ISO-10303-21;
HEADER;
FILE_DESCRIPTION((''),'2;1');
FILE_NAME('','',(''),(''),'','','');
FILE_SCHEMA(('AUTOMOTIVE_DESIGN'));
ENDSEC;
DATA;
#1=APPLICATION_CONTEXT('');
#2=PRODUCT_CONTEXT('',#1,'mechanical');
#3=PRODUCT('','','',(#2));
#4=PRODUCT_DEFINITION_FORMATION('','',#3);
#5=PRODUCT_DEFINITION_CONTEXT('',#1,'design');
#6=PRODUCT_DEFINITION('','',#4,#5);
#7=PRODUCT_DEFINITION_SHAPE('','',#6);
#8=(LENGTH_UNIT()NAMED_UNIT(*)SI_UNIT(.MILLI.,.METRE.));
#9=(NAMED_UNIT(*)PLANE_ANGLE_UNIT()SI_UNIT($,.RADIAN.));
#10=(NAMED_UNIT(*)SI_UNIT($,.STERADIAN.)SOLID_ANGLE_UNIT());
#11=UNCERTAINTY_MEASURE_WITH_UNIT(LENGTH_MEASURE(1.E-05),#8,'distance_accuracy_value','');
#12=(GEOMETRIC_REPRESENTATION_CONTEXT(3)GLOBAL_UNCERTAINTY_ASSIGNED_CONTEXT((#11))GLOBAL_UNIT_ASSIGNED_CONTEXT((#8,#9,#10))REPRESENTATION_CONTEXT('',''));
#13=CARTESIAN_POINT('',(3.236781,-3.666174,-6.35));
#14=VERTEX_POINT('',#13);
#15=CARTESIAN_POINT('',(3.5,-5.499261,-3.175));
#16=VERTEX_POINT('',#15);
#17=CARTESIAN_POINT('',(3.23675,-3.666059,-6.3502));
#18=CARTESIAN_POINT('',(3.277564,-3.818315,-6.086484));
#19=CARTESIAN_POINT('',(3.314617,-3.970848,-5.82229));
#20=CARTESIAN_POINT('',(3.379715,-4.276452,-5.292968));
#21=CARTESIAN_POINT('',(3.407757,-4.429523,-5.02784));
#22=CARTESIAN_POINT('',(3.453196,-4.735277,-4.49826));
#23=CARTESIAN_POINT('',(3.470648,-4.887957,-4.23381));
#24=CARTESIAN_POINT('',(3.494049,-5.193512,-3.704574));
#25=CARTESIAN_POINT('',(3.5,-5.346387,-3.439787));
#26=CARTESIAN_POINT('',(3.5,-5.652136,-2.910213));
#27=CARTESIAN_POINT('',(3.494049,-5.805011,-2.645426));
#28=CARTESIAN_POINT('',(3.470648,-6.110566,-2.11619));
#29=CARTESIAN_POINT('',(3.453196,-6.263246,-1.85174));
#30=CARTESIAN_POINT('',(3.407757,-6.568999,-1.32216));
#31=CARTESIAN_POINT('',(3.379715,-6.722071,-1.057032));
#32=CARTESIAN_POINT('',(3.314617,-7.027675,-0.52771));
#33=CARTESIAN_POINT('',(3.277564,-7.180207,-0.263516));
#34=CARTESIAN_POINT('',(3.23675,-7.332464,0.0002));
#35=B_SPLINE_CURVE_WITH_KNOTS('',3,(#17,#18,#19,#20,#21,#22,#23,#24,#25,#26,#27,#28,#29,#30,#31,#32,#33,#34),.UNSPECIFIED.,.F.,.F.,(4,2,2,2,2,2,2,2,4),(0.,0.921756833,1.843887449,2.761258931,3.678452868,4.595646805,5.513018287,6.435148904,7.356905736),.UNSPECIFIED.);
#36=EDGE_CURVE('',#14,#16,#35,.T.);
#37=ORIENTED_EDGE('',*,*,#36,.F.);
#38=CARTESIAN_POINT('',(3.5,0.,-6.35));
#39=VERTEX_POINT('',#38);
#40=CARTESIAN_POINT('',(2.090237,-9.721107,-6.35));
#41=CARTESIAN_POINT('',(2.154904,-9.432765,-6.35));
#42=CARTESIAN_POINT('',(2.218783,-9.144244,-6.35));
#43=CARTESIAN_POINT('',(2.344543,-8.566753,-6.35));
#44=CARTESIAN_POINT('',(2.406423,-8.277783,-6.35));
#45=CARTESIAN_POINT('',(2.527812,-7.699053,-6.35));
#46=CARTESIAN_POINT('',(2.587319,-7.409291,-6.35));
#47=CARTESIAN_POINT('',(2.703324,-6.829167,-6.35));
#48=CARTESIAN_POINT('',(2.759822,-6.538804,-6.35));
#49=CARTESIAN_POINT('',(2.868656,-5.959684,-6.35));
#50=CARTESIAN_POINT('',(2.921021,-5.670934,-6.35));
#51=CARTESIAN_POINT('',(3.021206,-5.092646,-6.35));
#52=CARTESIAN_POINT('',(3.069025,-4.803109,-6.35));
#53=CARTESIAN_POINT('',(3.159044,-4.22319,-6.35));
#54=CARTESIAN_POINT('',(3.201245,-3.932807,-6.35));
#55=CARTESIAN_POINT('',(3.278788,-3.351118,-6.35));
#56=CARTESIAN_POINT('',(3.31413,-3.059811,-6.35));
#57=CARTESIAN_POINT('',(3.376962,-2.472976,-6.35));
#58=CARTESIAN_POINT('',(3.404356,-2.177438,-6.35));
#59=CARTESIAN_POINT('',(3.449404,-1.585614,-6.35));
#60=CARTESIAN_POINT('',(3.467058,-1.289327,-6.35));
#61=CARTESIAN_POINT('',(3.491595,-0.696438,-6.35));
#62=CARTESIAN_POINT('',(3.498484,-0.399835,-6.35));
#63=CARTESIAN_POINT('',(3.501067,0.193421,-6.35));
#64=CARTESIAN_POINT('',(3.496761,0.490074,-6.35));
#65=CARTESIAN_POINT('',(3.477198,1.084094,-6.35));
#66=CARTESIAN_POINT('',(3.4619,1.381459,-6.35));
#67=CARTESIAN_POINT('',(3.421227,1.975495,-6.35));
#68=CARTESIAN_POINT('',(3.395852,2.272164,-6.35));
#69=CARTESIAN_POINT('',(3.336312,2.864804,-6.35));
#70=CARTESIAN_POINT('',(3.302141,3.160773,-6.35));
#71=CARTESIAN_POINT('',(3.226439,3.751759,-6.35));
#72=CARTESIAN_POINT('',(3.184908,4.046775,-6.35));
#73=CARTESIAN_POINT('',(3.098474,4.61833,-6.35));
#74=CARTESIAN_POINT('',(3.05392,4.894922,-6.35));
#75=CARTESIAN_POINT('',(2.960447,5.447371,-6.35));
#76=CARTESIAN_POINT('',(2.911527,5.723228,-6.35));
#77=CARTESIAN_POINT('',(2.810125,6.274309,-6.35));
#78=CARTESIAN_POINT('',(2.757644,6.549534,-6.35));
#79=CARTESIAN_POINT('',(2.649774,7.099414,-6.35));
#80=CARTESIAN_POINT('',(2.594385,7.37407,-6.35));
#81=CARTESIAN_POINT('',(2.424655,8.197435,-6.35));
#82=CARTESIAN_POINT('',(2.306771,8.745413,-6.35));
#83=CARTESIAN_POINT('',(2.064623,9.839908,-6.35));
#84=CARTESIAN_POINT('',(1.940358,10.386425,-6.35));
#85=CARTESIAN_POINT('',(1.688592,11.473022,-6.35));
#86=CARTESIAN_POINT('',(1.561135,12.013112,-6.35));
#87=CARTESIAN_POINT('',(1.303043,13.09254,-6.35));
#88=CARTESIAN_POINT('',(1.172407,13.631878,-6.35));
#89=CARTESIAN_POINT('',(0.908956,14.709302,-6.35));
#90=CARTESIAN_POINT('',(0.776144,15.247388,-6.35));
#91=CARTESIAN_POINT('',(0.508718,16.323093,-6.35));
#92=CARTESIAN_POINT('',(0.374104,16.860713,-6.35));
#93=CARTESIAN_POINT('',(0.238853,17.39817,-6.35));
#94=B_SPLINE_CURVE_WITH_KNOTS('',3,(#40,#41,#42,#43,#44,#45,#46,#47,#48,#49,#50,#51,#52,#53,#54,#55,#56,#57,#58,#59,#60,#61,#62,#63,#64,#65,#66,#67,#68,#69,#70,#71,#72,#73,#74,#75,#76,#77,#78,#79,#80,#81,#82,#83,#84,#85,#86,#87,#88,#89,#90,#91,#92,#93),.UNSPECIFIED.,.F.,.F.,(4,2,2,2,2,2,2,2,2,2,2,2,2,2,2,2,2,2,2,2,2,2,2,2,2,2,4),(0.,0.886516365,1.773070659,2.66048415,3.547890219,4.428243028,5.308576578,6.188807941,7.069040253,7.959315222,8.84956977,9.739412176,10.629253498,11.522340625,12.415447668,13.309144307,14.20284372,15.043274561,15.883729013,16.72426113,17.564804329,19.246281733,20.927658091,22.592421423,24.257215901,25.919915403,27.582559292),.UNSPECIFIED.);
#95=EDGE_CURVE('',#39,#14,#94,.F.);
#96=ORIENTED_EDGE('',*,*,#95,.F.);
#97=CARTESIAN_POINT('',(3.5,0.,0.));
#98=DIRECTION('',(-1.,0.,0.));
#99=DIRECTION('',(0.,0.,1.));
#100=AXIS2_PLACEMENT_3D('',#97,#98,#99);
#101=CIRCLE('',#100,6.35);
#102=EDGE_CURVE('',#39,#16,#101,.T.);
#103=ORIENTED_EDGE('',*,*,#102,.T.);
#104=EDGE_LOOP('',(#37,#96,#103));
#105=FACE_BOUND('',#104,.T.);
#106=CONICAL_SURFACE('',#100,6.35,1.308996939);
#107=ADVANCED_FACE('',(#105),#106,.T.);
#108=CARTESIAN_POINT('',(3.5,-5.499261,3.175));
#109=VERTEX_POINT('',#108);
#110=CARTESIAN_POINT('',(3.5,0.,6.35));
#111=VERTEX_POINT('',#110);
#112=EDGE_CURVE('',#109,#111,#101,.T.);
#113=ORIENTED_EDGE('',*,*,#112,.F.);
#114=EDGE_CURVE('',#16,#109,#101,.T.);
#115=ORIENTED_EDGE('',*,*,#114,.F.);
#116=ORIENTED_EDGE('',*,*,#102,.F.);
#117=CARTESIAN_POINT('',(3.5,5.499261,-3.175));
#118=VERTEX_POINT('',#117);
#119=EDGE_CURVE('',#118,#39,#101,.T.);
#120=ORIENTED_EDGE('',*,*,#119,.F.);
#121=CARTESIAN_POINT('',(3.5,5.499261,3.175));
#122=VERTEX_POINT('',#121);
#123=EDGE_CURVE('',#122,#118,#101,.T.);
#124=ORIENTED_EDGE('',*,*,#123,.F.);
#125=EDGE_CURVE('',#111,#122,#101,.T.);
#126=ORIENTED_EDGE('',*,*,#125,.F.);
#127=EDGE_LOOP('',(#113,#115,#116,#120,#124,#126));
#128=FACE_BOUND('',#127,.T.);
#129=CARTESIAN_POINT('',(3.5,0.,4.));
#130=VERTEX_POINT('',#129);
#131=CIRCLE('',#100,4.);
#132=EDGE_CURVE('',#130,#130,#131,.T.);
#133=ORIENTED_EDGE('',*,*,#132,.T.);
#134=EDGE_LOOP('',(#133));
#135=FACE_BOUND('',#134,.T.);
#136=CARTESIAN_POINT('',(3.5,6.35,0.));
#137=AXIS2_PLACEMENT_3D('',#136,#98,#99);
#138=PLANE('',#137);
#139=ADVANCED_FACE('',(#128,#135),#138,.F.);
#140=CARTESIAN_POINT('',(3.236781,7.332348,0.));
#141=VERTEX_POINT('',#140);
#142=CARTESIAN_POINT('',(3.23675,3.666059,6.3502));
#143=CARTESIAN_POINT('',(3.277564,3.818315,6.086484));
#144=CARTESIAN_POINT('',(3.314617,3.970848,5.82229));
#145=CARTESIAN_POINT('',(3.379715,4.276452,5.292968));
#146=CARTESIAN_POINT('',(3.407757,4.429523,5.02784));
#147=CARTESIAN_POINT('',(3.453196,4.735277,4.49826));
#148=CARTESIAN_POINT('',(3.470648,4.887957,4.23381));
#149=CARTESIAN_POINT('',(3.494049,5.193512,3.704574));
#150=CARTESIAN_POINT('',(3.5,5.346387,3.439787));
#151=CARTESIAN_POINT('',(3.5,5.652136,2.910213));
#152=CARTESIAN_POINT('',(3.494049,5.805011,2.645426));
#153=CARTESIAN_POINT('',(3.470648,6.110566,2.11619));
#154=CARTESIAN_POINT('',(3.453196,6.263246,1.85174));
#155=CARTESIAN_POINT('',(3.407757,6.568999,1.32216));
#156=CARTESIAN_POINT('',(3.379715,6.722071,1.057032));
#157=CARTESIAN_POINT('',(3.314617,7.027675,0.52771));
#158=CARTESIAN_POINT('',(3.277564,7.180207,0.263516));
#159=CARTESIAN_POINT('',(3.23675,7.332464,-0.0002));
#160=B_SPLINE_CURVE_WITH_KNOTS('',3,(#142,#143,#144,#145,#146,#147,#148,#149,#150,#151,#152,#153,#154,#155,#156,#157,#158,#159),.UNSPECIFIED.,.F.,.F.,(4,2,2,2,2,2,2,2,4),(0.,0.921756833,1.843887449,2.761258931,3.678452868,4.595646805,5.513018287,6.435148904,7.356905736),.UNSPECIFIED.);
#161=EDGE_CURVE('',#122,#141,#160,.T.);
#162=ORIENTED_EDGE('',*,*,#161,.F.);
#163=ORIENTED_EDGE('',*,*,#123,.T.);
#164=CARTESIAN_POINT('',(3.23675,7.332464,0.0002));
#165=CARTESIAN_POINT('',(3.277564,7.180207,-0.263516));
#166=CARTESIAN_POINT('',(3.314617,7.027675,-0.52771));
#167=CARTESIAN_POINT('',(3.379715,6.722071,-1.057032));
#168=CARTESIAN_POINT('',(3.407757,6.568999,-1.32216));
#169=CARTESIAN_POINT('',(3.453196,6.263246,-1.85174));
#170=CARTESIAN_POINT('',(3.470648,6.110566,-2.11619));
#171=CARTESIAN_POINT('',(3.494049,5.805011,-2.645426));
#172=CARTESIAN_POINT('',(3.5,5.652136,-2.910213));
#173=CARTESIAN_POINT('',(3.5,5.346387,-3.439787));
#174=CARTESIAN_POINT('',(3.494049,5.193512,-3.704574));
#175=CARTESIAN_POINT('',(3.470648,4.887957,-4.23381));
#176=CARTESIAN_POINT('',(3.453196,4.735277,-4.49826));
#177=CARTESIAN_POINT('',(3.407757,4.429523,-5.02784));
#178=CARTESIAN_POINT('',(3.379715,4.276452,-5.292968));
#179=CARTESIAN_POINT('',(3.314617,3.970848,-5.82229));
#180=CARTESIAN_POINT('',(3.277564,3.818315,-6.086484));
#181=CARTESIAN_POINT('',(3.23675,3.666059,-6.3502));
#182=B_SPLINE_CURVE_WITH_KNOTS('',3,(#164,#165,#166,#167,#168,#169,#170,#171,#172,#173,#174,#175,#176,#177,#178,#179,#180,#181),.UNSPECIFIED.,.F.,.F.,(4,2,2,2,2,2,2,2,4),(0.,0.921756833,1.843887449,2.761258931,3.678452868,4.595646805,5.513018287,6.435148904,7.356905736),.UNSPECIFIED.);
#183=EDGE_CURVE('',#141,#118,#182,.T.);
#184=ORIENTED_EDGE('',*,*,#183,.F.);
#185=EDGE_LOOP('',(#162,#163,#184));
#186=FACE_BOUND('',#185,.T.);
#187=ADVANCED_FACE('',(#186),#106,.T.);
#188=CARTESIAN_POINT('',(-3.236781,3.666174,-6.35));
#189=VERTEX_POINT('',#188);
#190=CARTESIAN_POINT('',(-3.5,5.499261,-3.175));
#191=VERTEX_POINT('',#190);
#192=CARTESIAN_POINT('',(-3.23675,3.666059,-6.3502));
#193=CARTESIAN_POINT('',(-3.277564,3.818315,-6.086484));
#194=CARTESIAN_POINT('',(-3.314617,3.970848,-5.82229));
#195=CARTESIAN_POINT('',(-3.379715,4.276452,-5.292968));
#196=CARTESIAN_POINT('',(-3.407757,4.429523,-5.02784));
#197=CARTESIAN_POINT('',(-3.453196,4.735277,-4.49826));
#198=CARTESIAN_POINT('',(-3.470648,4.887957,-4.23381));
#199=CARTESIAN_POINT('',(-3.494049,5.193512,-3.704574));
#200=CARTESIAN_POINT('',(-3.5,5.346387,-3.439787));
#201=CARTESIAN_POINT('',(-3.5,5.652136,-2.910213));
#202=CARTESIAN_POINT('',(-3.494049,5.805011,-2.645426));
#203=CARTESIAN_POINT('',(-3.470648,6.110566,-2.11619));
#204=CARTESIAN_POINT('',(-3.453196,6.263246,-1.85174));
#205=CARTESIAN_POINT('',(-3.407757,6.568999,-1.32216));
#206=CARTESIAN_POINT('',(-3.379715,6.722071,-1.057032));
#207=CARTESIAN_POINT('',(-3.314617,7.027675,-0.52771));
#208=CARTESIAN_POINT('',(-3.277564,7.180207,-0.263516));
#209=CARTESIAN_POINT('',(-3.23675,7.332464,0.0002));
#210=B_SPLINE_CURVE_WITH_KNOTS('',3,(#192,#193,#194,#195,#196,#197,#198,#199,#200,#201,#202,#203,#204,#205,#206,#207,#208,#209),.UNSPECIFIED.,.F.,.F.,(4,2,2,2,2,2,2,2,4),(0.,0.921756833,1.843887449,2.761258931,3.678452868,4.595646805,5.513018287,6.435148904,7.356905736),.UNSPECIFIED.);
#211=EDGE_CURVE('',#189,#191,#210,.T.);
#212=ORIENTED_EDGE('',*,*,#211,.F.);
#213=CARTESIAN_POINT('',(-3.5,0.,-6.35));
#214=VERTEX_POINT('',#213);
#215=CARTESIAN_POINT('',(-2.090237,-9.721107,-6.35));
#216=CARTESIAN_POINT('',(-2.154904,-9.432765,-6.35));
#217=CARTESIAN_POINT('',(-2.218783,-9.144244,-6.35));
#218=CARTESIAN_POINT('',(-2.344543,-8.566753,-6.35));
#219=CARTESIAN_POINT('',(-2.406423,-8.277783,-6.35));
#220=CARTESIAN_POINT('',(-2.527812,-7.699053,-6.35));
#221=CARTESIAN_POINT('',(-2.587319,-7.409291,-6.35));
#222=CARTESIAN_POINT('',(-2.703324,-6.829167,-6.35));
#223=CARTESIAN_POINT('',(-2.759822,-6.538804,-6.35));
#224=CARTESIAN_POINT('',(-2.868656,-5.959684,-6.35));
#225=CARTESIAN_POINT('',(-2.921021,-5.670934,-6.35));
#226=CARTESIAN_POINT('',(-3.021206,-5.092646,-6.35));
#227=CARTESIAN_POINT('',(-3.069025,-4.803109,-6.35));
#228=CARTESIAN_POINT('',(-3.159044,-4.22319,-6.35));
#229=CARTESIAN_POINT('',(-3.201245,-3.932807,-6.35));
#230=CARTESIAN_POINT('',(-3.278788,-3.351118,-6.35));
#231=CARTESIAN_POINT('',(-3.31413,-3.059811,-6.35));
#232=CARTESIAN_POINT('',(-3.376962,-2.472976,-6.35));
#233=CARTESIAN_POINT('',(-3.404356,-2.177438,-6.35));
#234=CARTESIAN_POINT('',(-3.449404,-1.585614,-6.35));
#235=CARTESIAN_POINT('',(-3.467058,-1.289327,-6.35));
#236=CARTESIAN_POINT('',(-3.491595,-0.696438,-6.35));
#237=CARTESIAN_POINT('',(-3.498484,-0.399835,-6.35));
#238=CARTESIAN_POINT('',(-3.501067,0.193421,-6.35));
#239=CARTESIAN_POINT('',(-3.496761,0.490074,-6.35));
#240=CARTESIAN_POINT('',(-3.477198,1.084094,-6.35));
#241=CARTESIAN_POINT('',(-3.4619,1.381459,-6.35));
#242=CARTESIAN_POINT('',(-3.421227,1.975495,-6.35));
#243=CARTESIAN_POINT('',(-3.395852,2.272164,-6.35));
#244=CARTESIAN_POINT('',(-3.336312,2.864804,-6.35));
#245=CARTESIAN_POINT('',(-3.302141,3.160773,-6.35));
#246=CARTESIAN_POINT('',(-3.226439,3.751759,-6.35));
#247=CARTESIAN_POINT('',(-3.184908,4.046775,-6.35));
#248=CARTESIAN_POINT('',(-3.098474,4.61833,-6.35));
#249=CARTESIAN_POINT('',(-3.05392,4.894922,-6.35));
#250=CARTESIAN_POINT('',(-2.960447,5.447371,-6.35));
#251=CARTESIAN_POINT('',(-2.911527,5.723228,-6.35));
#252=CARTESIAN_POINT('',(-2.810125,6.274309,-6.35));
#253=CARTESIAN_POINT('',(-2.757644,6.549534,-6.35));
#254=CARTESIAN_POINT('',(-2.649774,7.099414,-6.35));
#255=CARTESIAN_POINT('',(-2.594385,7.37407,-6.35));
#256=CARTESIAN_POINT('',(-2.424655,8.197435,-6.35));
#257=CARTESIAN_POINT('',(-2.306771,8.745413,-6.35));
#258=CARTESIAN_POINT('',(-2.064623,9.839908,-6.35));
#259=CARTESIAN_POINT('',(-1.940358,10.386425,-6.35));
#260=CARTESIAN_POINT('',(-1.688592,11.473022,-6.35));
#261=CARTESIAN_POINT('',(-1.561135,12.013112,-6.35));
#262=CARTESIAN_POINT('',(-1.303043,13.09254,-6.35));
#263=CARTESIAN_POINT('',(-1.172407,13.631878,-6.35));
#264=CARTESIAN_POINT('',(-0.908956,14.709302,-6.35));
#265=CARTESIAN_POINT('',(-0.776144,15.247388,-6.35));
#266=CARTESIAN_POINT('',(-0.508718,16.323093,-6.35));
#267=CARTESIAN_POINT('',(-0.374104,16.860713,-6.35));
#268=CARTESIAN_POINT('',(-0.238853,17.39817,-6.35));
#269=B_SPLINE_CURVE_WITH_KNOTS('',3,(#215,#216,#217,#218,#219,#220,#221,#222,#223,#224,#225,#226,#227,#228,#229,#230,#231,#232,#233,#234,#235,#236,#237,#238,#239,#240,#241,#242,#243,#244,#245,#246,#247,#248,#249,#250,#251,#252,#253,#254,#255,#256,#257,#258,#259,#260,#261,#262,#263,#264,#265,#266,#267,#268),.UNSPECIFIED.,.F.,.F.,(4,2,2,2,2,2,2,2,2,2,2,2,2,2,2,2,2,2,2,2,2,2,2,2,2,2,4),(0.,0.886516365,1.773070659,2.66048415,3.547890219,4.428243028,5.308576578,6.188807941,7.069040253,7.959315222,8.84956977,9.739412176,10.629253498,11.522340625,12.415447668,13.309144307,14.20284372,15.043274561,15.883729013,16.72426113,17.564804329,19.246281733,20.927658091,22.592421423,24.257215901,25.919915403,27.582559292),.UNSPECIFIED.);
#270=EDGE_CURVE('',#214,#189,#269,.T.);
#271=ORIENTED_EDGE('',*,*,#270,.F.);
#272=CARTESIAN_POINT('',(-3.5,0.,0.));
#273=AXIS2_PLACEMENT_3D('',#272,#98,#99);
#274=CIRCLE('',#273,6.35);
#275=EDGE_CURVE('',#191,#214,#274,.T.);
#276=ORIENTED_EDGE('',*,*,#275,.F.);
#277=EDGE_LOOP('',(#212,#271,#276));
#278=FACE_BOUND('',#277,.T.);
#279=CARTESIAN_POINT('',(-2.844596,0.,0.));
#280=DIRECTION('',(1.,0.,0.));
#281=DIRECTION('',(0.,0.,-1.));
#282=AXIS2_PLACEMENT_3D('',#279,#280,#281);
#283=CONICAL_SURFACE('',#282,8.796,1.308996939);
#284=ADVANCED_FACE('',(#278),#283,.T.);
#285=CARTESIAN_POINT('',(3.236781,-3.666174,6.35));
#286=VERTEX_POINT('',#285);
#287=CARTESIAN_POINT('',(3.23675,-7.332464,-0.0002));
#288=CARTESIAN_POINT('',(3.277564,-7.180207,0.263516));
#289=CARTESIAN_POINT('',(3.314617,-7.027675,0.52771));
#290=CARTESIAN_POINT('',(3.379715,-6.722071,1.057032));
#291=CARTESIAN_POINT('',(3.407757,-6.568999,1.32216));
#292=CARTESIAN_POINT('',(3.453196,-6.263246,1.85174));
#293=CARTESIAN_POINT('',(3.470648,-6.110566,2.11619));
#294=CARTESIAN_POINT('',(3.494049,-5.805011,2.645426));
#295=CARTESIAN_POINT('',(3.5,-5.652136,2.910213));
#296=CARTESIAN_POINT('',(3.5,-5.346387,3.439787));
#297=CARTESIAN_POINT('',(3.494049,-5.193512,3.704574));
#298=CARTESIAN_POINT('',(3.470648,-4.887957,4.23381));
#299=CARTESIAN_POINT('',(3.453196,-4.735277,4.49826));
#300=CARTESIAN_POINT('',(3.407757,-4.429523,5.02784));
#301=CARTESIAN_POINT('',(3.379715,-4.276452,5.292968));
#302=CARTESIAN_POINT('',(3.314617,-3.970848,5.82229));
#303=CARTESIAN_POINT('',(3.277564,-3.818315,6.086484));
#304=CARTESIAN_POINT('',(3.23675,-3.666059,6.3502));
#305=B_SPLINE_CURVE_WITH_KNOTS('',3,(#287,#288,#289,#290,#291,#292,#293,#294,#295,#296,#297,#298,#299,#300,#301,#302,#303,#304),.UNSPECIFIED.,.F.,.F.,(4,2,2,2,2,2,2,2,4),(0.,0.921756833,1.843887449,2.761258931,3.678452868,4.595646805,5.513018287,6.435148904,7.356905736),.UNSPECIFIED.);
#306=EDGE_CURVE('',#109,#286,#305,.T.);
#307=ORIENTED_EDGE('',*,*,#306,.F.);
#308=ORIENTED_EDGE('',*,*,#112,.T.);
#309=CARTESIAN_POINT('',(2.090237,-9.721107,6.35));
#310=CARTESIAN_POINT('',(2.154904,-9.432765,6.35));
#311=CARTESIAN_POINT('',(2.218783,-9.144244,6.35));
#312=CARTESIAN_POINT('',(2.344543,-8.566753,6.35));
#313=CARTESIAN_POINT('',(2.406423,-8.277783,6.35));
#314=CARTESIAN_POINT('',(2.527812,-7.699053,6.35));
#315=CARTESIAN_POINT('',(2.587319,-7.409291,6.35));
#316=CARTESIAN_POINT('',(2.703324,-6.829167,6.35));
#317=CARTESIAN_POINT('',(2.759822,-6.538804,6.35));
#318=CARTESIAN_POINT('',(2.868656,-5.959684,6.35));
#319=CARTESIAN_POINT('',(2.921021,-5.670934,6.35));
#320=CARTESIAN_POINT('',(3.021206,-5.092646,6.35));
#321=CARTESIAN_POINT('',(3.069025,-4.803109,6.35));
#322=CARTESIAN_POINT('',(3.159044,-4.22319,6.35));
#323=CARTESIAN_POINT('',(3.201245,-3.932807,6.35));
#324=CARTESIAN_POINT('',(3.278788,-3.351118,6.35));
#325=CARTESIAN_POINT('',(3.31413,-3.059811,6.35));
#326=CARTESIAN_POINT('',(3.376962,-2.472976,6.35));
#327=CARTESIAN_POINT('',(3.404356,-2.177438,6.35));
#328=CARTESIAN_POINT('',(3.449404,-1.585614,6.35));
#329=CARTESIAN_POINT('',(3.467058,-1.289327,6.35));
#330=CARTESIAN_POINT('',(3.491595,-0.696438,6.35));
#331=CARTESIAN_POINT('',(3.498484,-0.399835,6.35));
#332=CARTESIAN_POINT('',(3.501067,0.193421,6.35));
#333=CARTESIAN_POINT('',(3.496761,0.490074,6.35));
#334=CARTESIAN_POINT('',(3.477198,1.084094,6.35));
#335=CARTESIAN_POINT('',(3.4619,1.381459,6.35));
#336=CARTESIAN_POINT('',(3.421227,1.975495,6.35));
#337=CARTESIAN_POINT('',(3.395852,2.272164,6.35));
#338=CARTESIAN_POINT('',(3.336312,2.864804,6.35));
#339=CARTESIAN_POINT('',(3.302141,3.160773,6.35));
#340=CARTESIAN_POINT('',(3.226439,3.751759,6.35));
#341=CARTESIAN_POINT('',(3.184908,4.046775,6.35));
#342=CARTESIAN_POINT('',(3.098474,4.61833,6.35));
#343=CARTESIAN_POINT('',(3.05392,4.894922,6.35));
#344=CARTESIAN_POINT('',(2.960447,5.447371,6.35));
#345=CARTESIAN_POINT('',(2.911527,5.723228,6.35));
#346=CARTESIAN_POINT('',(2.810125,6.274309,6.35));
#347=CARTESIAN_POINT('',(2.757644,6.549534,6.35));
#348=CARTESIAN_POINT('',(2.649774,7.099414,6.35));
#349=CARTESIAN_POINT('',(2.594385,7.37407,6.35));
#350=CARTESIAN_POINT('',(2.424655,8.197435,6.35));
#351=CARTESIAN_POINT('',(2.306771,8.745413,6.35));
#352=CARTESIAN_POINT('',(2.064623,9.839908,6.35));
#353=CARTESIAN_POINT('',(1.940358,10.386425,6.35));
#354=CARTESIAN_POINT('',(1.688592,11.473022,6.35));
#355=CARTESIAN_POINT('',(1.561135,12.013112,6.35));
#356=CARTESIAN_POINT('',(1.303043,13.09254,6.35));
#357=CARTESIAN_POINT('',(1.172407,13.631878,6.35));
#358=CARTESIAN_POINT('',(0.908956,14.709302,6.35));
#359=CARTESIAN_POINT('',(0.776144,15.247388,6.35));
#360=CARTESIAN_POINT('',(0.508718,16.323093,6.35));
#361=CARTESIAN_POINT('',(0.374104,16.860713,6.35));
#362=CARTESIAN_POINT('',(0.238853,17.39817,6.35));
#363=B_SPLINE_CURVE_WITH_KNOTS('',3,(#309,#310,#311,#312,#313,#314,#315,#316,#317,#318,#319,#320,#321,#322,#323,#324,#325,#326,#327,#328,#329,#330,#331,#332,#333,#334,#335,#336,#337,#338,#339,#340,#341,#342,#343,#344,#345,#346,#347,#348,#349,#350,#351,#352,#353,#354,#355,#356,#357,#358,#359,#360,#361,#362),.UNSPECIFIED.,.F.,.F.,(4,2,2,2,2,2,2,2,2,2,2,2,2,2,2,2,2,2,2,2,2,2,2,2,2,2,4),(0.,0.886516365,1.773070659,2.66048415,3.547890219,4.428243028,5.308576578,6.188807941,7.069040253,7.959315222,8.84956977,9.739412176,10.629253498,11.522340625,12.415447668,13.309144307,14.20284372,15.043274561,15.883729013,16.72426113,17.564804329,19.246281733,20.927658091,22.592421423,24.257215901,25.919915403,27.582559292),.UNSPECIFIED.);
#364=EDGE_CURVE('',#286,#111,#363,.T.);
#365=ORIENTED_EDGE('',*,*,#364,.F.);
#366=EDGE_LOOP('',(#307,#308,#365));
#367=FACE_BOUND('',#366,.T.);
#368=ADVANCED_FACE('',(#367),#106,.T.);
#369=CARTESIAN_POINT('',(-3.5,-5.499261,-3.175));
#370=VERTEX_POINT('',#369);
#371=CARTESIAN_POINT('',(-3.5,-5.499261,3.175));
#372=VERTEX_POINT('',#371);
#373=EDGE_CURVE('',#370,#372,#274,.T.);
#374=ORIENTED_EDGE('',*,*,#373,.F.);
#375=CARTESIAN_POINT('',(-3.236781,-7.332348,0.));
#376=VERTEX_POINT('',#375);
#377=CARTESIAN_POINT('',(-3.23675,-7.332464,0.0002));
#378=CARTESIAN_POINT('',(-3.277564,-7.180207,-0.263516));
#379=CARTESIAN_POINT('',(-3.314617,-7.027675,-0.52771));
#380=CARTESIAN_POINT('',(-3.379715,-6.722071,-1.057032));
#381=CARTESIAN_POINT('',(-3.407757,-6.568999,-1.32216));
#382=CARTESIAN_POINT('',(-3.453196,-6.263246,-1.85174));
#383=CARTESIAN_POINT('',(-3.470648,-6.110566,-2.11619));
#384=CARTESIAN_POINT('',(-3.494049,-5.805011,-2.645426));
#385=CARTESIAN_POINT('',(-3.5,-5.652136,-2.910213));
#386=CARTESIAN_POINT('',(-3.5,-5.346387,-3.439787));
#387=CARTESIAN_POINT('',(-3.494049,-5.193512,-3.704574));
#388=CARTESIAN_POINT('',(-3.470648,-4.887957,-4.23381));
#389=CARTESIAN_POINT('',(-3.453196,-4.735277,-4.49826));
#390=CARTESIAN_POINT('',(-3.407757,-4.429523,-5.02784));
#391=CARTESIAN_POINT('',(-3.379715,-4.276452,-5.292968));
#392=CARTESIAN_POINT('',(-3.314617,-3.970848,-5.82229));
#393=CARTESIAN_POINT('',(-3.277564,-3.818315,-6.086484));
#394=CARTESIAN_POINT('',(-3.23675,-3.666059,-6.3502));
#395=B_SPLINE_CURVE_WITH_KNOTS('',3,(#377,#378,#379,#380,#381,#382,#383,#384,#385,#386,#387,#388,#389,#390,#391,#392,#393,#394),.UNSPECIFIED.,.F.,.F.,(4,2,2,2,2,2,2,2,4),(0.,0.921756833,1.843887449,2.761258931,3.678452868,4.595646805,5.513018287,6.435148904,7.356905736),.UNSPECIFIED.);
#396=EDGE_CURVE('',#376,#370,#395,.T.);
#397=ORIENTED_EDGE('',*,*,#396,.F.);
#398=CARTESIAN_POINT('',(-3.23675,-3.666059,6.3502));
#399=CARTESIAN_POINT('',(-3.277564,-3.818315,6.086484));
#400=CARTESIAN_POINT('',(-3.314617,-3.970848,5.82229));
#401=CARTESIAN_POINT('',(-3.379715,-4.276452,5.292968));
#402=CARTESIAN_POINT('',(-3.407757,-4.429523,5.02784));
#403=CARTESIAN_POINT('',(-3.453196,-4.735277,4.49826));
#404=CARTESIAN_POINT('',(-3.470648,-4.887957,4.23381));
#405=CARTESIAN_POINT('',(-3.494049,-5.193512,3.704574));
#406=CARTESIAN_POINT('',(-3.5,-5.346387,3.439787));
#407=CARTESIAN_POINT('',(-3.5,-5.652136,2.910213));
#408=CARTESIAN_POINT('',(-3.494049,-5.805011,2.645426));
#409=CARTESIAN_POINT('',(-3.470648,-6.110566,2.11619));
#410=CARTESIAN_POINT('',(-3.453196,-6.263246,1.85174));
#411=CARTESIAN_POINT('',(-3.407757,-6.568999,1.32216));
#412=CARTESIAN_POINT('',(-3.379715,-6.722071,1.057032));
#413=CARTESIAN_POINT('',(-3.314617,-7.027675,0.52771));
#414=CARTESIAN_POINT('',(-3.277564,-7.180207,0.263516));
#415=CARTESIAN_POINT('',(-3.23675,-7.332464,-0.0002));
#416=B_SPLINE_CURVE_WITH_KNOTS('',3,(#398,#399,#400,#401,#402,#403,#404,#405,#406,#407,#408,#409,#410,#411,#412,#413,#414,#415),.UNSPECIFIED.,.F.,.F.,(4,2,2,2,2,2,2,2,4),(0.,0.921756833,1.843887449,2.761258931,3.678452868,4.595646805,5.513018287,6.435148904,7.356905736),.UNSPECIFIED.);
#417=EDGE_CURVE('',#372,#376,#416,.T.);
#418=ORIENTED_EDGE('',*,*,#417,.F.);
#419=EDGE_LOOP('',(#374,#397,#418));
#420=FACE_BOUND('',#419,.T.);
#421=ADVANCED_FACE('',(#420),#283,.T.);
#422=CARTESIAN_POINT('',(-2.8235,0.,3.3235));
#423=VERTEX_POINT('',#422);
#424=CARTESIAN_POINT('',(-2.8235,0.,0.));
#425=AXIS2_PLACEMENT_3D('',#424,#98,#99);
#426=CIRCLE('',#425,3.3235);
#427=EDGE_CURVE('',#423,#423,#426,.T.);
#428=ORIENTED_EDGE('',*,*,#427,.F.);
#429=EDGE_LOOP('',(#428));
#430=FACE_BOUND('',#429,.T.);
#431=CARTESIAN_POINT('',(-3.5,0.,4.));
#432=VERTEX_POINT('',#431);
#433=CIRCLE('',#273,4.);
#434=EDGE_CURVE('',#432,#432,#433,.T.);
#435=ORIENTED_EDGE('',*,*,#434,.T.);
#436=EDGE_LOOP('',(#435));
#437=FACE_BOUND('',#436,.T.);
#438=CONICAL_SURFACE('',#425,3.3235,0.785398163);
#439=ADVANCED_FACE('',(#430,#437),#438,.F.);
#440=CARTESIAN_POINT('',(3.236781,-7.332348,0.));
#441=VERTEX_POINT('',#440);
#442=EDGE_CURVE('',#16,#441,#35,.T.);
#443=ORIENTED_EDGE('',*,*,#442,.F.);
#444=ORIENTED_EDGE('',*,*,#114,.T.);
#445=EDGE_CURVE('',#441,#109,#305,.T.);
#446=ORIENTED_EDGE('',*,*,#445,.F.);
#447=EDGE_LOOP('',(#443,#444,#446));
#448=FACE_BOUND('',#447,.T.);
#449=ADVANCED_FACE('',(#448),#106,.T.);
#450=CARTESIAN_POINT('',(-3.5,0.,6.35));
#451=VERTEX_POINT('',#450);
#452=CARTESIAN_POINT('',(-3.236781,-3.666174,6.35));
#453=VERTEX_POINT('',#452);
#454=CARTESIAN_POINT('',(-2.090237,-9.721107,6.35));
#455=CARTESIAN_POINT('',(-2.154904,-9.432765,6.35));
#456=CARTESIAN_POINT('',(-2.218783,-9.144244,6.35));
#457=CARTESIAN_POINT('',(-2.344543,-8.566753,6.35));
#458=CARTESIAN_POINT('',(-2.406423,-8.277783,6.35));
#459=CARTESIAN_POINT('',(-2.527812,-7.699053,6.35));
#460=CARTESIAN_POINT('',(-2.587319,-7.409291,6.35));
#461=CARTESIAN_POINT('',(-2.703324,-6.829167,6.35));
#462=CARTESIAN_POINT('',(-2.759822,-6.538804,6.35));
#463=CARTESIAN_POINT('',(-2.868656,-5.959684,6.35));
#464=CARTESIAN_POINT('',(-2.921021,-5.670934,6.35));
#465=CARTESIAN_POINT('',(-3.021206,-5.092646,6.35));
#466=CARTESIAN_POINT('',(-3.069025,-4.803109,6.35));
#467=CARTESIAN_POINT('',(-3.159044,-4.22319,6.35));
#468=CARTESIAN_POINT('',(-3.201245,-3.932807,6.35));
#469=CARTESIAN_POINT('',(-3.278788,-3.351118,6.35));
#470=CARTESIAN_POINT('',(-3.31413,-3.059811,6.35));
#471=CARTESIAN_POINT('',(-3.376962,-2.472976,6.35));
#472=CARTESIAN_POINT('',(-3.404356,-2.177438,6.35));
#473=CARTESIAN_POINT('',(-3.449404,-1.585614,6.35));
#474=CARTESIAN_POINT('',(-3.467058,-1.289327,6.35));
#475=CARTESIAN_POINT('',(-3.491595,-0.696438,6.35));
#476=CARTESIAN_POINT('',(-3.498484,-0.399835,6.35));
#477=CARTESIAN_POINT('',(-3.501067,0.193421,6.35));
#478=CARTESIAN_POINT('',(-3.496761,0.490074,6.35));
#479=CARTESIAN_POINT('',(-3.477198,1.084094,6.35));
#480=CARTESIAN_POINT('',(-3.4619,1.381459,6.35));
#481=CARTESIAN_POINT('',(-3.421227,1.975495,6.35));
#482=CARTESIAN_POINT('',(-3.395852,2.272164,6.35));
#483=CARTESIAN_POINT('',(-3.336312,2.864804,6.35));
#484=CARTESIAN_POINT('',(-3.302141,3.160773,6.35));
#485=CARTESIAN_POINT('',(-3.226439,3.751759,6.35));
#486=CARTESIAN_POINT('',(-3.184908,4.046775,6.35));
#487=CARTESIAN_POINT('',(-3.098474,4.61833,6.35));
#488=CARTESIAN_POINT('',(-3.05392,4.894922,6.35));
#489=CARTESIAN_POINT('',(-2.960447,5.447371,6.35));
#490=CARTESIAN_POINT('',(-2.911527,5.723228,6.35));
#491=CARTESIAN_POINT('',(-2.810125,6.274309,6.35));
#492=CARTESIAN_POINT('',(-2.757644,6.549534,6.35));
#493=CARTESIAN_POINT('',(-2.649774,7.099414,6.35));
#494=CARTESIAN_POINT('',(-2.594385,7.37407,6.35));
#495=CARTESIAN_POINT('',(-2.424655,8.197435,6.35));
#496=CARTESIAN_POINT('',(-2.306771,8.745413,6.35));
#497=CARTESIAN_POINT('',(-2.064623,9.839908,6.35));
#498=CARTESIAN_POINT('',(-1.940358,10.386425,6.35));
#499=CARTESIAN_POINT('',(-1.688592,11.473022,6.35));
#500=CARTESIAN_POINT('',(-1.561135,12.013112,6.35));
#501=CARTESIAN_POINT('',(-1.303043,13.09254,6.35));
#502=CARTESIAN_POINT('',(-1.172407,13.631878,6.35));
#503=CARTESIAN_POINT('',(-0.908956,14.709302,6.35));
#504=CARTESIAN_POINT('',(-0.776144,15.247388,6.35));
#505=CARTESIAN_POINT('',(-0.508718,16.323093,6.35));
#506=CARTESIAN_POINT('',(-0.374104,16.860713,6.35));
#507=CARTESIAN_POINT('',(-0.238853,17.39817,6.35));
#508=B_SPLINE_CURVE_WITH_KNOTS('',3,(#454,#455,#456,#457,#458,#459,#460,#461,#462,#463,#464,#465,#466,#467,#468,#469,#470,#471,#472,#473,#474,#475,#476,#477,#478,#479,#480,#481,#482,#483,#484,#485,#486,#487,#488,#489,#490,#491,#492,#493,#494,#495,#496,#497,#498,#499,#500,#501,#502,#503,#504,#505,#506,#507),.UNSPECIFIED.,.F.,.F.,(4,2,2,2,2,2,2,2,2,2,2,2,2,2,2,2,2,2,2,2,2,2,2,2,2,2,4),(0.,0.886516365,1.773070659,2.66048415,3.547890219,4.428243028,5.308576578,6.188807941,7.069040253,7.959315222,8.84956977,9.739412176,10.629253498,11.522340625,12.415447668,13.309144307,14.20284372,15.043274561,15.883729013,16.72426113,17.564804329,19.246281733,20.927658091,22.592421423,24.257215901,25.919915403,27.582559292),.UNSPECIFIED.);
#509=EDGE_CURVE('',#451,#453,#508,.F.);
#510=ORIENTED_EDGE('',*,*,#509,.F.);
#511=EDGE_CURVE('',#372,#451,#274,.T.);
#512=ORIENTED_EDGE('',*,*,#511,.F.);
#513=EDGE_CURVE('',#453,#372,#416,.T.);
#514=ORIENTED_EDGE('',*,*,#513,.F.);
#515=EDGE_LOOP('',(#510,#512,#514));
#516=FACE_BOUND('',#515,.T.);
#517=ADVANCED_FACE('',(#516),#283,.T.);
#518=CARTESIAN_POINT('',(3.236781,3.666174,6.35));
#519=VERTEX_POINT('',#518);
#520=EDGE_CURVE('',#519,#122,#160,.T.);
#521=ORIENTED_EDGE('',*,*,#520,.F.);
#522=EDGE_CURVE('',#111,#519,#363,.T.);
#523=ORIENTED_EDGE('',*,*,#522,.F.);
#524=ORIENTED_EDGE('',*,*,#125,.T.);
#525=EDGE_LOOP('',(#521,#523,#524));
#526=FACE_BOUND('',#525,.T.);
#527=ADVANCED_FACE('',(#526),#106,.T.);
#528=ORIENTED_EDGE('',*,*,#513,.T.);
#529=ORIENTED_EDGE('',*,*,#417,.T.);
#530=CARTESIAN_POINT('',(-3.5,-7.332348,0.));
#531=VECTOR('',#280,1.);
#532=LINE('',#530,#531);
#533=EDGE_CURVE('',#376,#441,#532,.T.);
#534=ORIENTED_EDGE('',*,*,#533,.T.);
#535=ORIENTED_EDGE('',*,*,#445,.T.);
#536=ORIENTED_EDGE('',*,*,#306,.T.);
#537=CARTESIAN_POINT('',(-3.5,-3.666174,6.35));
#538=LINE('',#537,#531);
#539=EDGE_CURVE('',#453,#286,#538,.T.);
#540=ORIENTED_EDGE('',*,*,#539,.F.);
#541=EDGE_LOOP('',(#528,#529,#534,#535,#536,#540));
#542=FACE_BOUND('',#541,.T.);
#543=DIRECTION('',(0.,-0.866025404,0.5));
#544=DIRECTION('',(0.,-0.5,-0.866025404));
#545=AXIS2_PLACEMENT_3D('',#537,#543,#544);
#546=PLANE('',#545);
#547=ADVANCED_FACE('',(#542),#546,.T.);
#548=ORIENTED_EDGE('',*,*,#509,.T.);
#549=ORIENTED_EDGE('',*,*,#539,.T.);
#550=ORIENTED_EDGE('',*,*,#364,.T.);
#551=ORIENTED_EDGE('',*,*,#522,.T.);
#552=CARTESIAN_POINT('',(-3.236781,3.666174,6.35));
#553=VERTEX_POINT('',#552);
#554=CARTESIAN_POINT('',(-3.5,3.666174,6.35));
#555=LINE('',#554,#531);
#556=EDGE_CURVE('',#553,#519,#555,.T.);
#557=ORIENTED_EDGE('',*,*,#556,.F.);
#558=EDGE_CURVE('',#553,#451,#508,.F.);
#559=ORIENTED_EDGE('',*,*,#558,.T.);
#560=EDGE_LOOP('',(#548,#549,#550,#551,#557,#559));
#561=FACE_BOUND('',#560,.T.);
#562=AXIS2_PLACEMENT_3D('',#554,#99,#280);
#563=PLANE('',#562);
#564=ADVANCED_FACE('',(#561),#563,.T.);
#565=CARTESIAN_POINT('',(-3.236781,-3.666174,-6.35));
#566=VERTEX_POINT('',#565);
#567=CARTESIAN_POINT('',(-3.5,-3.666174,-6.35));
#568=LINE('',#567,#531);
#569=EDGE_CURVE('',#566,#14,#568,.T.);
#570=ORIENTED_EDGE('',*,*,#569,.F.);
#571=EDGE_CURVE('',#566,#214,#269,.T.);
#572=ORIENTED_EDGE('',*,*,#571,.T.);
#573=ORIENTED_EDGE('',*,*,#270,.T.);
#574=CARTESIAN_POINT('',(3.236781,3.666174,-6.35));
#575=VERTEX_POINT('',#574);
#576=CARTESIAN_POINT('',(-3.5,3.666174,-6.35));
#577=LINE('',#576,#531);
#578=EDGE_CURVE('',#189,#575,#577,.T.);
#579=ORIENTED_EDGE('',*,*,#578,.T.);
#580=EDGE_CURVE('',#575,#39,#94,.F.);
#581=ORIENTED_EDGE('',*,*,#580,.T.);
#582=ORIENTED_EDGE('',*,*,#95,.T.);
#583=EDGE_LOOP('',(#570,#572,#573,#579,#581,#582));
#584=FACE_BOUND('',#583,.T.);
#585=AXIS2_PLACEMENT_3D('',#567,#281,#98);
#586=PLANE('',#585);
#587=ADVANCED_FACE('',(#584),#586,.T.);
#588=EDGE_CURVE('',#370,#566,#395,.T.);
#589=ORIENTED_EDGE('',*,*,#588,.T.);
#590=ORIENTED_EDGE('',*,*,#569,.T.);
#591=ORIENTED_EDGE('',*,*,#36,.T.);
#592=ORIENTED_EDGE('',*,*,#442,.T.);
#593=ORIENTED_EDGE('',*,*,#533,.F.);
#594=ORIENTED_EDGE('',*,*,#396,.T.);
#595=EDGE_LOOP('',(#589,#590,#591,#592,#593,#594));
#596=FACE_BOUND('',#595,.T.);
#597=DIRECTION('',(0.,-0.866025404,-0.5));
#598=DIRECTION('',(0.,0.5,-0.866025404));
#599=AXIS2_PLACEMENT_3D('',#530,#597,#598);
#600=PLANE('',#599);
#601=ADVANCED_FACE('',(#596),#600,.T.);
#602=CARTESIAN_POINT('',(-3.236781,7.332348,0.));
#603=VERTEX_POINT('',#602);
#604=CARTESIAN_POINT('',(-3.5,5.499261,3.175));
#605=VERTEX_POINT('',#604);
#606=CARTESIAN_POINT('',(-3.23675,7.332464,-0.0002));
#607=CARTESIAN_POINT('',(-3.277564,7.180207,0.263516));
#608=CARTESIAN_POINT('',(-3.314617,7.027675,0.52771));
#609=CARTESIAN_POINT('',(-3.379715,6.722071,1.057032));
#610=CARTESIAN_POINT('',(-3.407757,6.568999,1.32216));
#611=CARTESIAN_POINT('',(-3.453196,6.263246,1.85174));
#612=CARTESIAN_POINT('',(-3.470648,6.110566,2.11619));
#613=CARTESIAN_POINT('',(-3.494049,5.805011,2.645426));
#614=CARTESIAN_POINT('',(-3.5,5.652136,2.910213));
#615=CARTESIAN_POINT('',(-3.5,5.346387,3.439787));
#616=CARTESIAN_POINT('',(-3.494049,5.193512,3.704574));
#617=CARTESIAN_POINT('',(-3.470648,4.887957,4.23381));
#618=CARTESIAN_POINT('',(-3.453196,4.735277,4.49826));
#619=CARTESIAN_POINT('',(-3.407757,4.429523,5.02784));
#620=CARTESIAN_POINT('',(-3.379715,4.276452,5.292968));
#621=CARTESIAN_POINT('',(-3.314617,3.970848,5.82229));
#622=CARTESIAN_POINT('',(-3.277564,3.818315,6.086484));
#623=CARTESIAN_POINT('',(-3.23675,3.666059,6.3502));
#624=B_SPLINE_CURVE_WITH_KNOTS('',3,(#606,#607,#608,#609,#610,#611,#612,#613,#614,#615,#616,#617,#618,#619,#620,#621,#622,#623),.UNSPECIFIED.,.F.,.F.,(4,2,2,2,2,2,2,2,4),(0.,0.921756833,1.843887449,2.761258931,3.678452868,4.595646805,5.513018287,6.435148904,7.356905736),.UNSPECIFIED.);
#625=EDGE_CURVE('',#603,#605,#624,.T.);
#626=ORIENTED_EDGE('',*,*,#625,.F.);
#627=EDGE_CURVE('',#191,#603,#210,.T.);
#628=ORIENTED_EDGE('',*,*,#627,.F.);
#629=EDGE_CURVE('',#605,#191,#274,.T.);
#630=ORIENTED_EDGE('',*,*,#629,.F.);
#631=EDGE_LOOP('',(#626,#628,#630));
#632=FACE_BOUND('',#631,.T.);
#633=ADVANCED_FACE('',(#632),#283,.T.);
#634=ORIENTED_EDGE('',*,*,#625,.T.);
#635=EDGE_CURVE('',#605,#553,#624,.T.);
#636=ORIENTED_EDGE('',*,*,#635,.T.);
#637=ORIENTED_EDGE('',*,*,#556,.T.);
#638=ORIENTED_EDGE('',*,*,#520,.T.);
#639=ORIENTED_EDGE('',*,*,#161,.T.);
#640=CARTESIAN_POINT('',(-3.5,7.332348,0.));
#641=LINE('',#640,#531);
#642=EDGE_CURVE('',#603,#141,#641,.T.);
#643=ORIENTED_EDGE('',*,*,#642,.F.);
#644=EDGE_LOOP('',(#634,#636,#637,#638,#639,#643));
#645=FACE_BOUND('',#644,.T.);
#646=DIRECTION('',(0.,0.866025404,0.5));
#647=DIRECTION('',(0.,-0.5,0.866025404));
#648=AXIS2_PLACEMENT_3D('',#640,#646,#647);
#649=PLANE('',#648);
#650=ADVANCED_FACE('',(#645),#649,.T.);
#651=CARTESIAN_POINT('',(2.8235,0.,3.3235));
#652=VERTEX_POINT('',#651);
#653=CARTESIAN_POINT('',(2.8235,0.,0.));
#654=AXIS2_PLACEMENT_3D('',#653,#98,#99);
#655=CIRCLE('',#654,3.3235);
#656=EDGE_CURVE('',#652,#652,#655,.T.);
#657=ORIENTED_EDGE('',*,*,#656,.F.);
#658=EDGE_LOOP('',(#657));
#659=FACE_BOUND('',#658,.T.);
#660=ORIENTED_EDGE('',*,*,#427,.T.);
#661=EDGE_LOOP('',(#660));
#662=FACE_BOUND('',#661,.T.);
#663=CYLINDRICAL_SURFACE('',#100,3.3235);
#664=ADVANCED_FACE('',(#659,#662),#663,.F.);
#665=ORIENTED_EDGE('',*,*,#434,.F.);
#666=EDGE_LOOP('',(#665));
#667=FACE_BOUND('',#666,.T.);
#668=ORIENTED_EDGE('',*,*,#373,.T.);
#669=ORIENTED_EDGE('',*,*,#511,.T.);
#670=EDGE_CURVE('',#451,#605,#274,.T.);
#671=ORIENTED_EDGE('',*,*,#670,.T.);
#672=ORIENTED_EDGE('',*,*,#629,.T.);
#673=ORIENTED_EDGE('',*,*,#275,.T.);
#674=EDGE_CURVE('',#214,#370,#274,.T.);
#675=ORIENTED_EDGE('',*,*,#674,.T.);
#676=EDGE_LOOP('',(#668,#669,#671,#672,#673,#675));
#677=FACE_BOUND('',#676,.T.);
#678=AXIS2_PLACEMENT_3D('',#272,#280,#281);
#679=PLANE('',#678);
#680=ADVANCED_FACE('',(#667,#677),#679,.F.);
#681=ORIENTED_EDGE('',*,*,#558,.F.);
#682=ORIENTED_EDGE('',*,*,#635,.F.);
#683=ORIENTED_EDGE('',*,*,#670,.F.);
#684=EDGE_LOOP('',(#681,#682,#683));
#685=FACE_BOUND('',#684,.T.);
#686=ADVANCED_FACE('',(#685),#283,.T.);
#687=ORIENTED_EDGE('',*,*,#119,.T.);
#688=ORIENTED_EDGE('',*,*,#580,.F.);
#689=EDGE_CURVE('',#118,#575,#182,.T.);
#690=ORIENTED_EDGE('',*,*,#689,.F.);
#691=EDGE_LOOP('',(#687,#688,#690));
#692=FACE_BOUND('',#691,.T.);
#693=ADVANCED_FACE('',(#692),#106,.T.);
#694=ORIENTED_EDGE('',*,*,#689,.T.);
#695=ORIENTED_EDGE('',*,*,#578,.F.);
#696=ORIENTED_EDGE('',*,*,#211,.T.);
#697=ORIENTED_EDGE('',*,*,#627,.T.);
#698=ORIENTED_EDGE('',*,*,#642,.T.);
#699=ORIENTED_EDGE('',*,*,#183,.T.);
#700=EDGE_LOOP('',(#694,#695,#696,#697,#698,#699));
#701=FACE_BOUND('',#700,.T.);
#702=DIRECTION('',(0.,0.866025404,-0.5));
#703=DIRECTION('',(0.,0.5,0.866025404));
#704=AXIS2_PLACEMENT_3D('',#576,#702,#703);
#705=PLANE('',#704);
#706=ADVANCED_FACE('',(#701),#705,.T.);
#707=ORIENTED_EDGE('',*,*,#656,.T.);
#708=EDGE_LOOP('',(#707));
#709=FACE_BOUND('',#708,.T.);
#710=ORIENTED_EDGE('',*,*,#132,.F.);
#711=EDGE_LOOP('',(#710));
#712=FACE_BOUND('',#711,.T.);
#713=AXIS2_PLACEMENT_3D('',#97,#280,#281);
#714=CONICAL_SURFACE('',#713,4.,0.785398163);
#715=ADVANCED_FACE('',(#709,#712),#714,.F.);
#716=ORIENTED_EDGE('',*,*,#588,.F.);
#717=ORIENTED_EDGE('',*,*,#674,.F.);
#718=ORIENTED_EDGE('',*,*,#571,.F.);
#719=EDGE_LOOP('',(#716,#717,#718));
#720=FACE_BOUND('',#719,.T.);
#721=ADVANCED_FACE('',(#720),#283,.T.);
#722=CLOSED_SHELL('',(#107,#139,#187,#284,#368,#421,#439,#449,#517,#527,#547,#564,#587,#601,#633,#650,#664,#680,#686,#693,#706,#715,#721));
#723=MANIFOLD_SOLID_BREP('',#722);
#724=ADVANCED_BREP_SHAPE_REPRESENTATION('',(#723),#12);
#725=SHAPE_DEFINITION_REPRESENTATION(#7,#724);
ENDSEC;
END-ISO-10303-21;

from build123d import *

# Parameters (mm, degrees)
CUT_EXTRUDE_1_DEPTH      = 3.5
CUT_EXTRUDE_1_DEPTH_BACK = 3.5
SKETCH_3_W               = 25.4
SKETCH_3_H               = 25.4


with BuildPart() as part:
    # 草图1 → 旋转1 (revolve)
    with BuildSketch(Plane.XY):
        Polygon((-3.5, 0), (-3.5, 6.35), (-2.844596275, 8.796), (2.844596275, 8.796), (3.5, 6.35), (3.5, 0), align=None)
    revolve(axis=Axis((3.5, 0, 0), (-1, 0, 0)))

    # 草图2 → 切除-旋转1 (revolve, cut)
    with BuildSketch(Plane.XY):
        Polygon((-3.5, 0), (-3.5, 4), (-2.8235, 3.3235), (2.8235, 3.3235), (3.5, 4), (3.5, 0), align=None)
    revolve(axis=Axis((3.5, 0, 0), (-1, 0, 0)), mode=Mode.SUBTRACT)

    # 草图3 → 切除-拉伸1 (cut, two sides: drawn at the far end of the back side and taken through both)
    with BuildSketch(Plane(origin=(0, 0, 0), x_dir=(0, 0, -1), z_dir=(1, 0, 0)).offset(-CUT_EXTRUDE_1_DEPTH_BACK)):
        Rectangle(SKETCH_3_W, SKETCH_3_H)
        Polygon((-6.35, 3.666174209), (-6.35, -3.666174209), (0, -7.332348419), (6.35, -3.666174209), (6.35, 3.666174209), (0, 7.332348419), align=None, mode=Mode.SUBTRACT)
    extrude(amount=CUT_EXTRUDE_1_DEPTH + CUT_EXTRUDE_1_DEPTH_BACK, mode=Mode.SUBTRACT)


solid = part.part
